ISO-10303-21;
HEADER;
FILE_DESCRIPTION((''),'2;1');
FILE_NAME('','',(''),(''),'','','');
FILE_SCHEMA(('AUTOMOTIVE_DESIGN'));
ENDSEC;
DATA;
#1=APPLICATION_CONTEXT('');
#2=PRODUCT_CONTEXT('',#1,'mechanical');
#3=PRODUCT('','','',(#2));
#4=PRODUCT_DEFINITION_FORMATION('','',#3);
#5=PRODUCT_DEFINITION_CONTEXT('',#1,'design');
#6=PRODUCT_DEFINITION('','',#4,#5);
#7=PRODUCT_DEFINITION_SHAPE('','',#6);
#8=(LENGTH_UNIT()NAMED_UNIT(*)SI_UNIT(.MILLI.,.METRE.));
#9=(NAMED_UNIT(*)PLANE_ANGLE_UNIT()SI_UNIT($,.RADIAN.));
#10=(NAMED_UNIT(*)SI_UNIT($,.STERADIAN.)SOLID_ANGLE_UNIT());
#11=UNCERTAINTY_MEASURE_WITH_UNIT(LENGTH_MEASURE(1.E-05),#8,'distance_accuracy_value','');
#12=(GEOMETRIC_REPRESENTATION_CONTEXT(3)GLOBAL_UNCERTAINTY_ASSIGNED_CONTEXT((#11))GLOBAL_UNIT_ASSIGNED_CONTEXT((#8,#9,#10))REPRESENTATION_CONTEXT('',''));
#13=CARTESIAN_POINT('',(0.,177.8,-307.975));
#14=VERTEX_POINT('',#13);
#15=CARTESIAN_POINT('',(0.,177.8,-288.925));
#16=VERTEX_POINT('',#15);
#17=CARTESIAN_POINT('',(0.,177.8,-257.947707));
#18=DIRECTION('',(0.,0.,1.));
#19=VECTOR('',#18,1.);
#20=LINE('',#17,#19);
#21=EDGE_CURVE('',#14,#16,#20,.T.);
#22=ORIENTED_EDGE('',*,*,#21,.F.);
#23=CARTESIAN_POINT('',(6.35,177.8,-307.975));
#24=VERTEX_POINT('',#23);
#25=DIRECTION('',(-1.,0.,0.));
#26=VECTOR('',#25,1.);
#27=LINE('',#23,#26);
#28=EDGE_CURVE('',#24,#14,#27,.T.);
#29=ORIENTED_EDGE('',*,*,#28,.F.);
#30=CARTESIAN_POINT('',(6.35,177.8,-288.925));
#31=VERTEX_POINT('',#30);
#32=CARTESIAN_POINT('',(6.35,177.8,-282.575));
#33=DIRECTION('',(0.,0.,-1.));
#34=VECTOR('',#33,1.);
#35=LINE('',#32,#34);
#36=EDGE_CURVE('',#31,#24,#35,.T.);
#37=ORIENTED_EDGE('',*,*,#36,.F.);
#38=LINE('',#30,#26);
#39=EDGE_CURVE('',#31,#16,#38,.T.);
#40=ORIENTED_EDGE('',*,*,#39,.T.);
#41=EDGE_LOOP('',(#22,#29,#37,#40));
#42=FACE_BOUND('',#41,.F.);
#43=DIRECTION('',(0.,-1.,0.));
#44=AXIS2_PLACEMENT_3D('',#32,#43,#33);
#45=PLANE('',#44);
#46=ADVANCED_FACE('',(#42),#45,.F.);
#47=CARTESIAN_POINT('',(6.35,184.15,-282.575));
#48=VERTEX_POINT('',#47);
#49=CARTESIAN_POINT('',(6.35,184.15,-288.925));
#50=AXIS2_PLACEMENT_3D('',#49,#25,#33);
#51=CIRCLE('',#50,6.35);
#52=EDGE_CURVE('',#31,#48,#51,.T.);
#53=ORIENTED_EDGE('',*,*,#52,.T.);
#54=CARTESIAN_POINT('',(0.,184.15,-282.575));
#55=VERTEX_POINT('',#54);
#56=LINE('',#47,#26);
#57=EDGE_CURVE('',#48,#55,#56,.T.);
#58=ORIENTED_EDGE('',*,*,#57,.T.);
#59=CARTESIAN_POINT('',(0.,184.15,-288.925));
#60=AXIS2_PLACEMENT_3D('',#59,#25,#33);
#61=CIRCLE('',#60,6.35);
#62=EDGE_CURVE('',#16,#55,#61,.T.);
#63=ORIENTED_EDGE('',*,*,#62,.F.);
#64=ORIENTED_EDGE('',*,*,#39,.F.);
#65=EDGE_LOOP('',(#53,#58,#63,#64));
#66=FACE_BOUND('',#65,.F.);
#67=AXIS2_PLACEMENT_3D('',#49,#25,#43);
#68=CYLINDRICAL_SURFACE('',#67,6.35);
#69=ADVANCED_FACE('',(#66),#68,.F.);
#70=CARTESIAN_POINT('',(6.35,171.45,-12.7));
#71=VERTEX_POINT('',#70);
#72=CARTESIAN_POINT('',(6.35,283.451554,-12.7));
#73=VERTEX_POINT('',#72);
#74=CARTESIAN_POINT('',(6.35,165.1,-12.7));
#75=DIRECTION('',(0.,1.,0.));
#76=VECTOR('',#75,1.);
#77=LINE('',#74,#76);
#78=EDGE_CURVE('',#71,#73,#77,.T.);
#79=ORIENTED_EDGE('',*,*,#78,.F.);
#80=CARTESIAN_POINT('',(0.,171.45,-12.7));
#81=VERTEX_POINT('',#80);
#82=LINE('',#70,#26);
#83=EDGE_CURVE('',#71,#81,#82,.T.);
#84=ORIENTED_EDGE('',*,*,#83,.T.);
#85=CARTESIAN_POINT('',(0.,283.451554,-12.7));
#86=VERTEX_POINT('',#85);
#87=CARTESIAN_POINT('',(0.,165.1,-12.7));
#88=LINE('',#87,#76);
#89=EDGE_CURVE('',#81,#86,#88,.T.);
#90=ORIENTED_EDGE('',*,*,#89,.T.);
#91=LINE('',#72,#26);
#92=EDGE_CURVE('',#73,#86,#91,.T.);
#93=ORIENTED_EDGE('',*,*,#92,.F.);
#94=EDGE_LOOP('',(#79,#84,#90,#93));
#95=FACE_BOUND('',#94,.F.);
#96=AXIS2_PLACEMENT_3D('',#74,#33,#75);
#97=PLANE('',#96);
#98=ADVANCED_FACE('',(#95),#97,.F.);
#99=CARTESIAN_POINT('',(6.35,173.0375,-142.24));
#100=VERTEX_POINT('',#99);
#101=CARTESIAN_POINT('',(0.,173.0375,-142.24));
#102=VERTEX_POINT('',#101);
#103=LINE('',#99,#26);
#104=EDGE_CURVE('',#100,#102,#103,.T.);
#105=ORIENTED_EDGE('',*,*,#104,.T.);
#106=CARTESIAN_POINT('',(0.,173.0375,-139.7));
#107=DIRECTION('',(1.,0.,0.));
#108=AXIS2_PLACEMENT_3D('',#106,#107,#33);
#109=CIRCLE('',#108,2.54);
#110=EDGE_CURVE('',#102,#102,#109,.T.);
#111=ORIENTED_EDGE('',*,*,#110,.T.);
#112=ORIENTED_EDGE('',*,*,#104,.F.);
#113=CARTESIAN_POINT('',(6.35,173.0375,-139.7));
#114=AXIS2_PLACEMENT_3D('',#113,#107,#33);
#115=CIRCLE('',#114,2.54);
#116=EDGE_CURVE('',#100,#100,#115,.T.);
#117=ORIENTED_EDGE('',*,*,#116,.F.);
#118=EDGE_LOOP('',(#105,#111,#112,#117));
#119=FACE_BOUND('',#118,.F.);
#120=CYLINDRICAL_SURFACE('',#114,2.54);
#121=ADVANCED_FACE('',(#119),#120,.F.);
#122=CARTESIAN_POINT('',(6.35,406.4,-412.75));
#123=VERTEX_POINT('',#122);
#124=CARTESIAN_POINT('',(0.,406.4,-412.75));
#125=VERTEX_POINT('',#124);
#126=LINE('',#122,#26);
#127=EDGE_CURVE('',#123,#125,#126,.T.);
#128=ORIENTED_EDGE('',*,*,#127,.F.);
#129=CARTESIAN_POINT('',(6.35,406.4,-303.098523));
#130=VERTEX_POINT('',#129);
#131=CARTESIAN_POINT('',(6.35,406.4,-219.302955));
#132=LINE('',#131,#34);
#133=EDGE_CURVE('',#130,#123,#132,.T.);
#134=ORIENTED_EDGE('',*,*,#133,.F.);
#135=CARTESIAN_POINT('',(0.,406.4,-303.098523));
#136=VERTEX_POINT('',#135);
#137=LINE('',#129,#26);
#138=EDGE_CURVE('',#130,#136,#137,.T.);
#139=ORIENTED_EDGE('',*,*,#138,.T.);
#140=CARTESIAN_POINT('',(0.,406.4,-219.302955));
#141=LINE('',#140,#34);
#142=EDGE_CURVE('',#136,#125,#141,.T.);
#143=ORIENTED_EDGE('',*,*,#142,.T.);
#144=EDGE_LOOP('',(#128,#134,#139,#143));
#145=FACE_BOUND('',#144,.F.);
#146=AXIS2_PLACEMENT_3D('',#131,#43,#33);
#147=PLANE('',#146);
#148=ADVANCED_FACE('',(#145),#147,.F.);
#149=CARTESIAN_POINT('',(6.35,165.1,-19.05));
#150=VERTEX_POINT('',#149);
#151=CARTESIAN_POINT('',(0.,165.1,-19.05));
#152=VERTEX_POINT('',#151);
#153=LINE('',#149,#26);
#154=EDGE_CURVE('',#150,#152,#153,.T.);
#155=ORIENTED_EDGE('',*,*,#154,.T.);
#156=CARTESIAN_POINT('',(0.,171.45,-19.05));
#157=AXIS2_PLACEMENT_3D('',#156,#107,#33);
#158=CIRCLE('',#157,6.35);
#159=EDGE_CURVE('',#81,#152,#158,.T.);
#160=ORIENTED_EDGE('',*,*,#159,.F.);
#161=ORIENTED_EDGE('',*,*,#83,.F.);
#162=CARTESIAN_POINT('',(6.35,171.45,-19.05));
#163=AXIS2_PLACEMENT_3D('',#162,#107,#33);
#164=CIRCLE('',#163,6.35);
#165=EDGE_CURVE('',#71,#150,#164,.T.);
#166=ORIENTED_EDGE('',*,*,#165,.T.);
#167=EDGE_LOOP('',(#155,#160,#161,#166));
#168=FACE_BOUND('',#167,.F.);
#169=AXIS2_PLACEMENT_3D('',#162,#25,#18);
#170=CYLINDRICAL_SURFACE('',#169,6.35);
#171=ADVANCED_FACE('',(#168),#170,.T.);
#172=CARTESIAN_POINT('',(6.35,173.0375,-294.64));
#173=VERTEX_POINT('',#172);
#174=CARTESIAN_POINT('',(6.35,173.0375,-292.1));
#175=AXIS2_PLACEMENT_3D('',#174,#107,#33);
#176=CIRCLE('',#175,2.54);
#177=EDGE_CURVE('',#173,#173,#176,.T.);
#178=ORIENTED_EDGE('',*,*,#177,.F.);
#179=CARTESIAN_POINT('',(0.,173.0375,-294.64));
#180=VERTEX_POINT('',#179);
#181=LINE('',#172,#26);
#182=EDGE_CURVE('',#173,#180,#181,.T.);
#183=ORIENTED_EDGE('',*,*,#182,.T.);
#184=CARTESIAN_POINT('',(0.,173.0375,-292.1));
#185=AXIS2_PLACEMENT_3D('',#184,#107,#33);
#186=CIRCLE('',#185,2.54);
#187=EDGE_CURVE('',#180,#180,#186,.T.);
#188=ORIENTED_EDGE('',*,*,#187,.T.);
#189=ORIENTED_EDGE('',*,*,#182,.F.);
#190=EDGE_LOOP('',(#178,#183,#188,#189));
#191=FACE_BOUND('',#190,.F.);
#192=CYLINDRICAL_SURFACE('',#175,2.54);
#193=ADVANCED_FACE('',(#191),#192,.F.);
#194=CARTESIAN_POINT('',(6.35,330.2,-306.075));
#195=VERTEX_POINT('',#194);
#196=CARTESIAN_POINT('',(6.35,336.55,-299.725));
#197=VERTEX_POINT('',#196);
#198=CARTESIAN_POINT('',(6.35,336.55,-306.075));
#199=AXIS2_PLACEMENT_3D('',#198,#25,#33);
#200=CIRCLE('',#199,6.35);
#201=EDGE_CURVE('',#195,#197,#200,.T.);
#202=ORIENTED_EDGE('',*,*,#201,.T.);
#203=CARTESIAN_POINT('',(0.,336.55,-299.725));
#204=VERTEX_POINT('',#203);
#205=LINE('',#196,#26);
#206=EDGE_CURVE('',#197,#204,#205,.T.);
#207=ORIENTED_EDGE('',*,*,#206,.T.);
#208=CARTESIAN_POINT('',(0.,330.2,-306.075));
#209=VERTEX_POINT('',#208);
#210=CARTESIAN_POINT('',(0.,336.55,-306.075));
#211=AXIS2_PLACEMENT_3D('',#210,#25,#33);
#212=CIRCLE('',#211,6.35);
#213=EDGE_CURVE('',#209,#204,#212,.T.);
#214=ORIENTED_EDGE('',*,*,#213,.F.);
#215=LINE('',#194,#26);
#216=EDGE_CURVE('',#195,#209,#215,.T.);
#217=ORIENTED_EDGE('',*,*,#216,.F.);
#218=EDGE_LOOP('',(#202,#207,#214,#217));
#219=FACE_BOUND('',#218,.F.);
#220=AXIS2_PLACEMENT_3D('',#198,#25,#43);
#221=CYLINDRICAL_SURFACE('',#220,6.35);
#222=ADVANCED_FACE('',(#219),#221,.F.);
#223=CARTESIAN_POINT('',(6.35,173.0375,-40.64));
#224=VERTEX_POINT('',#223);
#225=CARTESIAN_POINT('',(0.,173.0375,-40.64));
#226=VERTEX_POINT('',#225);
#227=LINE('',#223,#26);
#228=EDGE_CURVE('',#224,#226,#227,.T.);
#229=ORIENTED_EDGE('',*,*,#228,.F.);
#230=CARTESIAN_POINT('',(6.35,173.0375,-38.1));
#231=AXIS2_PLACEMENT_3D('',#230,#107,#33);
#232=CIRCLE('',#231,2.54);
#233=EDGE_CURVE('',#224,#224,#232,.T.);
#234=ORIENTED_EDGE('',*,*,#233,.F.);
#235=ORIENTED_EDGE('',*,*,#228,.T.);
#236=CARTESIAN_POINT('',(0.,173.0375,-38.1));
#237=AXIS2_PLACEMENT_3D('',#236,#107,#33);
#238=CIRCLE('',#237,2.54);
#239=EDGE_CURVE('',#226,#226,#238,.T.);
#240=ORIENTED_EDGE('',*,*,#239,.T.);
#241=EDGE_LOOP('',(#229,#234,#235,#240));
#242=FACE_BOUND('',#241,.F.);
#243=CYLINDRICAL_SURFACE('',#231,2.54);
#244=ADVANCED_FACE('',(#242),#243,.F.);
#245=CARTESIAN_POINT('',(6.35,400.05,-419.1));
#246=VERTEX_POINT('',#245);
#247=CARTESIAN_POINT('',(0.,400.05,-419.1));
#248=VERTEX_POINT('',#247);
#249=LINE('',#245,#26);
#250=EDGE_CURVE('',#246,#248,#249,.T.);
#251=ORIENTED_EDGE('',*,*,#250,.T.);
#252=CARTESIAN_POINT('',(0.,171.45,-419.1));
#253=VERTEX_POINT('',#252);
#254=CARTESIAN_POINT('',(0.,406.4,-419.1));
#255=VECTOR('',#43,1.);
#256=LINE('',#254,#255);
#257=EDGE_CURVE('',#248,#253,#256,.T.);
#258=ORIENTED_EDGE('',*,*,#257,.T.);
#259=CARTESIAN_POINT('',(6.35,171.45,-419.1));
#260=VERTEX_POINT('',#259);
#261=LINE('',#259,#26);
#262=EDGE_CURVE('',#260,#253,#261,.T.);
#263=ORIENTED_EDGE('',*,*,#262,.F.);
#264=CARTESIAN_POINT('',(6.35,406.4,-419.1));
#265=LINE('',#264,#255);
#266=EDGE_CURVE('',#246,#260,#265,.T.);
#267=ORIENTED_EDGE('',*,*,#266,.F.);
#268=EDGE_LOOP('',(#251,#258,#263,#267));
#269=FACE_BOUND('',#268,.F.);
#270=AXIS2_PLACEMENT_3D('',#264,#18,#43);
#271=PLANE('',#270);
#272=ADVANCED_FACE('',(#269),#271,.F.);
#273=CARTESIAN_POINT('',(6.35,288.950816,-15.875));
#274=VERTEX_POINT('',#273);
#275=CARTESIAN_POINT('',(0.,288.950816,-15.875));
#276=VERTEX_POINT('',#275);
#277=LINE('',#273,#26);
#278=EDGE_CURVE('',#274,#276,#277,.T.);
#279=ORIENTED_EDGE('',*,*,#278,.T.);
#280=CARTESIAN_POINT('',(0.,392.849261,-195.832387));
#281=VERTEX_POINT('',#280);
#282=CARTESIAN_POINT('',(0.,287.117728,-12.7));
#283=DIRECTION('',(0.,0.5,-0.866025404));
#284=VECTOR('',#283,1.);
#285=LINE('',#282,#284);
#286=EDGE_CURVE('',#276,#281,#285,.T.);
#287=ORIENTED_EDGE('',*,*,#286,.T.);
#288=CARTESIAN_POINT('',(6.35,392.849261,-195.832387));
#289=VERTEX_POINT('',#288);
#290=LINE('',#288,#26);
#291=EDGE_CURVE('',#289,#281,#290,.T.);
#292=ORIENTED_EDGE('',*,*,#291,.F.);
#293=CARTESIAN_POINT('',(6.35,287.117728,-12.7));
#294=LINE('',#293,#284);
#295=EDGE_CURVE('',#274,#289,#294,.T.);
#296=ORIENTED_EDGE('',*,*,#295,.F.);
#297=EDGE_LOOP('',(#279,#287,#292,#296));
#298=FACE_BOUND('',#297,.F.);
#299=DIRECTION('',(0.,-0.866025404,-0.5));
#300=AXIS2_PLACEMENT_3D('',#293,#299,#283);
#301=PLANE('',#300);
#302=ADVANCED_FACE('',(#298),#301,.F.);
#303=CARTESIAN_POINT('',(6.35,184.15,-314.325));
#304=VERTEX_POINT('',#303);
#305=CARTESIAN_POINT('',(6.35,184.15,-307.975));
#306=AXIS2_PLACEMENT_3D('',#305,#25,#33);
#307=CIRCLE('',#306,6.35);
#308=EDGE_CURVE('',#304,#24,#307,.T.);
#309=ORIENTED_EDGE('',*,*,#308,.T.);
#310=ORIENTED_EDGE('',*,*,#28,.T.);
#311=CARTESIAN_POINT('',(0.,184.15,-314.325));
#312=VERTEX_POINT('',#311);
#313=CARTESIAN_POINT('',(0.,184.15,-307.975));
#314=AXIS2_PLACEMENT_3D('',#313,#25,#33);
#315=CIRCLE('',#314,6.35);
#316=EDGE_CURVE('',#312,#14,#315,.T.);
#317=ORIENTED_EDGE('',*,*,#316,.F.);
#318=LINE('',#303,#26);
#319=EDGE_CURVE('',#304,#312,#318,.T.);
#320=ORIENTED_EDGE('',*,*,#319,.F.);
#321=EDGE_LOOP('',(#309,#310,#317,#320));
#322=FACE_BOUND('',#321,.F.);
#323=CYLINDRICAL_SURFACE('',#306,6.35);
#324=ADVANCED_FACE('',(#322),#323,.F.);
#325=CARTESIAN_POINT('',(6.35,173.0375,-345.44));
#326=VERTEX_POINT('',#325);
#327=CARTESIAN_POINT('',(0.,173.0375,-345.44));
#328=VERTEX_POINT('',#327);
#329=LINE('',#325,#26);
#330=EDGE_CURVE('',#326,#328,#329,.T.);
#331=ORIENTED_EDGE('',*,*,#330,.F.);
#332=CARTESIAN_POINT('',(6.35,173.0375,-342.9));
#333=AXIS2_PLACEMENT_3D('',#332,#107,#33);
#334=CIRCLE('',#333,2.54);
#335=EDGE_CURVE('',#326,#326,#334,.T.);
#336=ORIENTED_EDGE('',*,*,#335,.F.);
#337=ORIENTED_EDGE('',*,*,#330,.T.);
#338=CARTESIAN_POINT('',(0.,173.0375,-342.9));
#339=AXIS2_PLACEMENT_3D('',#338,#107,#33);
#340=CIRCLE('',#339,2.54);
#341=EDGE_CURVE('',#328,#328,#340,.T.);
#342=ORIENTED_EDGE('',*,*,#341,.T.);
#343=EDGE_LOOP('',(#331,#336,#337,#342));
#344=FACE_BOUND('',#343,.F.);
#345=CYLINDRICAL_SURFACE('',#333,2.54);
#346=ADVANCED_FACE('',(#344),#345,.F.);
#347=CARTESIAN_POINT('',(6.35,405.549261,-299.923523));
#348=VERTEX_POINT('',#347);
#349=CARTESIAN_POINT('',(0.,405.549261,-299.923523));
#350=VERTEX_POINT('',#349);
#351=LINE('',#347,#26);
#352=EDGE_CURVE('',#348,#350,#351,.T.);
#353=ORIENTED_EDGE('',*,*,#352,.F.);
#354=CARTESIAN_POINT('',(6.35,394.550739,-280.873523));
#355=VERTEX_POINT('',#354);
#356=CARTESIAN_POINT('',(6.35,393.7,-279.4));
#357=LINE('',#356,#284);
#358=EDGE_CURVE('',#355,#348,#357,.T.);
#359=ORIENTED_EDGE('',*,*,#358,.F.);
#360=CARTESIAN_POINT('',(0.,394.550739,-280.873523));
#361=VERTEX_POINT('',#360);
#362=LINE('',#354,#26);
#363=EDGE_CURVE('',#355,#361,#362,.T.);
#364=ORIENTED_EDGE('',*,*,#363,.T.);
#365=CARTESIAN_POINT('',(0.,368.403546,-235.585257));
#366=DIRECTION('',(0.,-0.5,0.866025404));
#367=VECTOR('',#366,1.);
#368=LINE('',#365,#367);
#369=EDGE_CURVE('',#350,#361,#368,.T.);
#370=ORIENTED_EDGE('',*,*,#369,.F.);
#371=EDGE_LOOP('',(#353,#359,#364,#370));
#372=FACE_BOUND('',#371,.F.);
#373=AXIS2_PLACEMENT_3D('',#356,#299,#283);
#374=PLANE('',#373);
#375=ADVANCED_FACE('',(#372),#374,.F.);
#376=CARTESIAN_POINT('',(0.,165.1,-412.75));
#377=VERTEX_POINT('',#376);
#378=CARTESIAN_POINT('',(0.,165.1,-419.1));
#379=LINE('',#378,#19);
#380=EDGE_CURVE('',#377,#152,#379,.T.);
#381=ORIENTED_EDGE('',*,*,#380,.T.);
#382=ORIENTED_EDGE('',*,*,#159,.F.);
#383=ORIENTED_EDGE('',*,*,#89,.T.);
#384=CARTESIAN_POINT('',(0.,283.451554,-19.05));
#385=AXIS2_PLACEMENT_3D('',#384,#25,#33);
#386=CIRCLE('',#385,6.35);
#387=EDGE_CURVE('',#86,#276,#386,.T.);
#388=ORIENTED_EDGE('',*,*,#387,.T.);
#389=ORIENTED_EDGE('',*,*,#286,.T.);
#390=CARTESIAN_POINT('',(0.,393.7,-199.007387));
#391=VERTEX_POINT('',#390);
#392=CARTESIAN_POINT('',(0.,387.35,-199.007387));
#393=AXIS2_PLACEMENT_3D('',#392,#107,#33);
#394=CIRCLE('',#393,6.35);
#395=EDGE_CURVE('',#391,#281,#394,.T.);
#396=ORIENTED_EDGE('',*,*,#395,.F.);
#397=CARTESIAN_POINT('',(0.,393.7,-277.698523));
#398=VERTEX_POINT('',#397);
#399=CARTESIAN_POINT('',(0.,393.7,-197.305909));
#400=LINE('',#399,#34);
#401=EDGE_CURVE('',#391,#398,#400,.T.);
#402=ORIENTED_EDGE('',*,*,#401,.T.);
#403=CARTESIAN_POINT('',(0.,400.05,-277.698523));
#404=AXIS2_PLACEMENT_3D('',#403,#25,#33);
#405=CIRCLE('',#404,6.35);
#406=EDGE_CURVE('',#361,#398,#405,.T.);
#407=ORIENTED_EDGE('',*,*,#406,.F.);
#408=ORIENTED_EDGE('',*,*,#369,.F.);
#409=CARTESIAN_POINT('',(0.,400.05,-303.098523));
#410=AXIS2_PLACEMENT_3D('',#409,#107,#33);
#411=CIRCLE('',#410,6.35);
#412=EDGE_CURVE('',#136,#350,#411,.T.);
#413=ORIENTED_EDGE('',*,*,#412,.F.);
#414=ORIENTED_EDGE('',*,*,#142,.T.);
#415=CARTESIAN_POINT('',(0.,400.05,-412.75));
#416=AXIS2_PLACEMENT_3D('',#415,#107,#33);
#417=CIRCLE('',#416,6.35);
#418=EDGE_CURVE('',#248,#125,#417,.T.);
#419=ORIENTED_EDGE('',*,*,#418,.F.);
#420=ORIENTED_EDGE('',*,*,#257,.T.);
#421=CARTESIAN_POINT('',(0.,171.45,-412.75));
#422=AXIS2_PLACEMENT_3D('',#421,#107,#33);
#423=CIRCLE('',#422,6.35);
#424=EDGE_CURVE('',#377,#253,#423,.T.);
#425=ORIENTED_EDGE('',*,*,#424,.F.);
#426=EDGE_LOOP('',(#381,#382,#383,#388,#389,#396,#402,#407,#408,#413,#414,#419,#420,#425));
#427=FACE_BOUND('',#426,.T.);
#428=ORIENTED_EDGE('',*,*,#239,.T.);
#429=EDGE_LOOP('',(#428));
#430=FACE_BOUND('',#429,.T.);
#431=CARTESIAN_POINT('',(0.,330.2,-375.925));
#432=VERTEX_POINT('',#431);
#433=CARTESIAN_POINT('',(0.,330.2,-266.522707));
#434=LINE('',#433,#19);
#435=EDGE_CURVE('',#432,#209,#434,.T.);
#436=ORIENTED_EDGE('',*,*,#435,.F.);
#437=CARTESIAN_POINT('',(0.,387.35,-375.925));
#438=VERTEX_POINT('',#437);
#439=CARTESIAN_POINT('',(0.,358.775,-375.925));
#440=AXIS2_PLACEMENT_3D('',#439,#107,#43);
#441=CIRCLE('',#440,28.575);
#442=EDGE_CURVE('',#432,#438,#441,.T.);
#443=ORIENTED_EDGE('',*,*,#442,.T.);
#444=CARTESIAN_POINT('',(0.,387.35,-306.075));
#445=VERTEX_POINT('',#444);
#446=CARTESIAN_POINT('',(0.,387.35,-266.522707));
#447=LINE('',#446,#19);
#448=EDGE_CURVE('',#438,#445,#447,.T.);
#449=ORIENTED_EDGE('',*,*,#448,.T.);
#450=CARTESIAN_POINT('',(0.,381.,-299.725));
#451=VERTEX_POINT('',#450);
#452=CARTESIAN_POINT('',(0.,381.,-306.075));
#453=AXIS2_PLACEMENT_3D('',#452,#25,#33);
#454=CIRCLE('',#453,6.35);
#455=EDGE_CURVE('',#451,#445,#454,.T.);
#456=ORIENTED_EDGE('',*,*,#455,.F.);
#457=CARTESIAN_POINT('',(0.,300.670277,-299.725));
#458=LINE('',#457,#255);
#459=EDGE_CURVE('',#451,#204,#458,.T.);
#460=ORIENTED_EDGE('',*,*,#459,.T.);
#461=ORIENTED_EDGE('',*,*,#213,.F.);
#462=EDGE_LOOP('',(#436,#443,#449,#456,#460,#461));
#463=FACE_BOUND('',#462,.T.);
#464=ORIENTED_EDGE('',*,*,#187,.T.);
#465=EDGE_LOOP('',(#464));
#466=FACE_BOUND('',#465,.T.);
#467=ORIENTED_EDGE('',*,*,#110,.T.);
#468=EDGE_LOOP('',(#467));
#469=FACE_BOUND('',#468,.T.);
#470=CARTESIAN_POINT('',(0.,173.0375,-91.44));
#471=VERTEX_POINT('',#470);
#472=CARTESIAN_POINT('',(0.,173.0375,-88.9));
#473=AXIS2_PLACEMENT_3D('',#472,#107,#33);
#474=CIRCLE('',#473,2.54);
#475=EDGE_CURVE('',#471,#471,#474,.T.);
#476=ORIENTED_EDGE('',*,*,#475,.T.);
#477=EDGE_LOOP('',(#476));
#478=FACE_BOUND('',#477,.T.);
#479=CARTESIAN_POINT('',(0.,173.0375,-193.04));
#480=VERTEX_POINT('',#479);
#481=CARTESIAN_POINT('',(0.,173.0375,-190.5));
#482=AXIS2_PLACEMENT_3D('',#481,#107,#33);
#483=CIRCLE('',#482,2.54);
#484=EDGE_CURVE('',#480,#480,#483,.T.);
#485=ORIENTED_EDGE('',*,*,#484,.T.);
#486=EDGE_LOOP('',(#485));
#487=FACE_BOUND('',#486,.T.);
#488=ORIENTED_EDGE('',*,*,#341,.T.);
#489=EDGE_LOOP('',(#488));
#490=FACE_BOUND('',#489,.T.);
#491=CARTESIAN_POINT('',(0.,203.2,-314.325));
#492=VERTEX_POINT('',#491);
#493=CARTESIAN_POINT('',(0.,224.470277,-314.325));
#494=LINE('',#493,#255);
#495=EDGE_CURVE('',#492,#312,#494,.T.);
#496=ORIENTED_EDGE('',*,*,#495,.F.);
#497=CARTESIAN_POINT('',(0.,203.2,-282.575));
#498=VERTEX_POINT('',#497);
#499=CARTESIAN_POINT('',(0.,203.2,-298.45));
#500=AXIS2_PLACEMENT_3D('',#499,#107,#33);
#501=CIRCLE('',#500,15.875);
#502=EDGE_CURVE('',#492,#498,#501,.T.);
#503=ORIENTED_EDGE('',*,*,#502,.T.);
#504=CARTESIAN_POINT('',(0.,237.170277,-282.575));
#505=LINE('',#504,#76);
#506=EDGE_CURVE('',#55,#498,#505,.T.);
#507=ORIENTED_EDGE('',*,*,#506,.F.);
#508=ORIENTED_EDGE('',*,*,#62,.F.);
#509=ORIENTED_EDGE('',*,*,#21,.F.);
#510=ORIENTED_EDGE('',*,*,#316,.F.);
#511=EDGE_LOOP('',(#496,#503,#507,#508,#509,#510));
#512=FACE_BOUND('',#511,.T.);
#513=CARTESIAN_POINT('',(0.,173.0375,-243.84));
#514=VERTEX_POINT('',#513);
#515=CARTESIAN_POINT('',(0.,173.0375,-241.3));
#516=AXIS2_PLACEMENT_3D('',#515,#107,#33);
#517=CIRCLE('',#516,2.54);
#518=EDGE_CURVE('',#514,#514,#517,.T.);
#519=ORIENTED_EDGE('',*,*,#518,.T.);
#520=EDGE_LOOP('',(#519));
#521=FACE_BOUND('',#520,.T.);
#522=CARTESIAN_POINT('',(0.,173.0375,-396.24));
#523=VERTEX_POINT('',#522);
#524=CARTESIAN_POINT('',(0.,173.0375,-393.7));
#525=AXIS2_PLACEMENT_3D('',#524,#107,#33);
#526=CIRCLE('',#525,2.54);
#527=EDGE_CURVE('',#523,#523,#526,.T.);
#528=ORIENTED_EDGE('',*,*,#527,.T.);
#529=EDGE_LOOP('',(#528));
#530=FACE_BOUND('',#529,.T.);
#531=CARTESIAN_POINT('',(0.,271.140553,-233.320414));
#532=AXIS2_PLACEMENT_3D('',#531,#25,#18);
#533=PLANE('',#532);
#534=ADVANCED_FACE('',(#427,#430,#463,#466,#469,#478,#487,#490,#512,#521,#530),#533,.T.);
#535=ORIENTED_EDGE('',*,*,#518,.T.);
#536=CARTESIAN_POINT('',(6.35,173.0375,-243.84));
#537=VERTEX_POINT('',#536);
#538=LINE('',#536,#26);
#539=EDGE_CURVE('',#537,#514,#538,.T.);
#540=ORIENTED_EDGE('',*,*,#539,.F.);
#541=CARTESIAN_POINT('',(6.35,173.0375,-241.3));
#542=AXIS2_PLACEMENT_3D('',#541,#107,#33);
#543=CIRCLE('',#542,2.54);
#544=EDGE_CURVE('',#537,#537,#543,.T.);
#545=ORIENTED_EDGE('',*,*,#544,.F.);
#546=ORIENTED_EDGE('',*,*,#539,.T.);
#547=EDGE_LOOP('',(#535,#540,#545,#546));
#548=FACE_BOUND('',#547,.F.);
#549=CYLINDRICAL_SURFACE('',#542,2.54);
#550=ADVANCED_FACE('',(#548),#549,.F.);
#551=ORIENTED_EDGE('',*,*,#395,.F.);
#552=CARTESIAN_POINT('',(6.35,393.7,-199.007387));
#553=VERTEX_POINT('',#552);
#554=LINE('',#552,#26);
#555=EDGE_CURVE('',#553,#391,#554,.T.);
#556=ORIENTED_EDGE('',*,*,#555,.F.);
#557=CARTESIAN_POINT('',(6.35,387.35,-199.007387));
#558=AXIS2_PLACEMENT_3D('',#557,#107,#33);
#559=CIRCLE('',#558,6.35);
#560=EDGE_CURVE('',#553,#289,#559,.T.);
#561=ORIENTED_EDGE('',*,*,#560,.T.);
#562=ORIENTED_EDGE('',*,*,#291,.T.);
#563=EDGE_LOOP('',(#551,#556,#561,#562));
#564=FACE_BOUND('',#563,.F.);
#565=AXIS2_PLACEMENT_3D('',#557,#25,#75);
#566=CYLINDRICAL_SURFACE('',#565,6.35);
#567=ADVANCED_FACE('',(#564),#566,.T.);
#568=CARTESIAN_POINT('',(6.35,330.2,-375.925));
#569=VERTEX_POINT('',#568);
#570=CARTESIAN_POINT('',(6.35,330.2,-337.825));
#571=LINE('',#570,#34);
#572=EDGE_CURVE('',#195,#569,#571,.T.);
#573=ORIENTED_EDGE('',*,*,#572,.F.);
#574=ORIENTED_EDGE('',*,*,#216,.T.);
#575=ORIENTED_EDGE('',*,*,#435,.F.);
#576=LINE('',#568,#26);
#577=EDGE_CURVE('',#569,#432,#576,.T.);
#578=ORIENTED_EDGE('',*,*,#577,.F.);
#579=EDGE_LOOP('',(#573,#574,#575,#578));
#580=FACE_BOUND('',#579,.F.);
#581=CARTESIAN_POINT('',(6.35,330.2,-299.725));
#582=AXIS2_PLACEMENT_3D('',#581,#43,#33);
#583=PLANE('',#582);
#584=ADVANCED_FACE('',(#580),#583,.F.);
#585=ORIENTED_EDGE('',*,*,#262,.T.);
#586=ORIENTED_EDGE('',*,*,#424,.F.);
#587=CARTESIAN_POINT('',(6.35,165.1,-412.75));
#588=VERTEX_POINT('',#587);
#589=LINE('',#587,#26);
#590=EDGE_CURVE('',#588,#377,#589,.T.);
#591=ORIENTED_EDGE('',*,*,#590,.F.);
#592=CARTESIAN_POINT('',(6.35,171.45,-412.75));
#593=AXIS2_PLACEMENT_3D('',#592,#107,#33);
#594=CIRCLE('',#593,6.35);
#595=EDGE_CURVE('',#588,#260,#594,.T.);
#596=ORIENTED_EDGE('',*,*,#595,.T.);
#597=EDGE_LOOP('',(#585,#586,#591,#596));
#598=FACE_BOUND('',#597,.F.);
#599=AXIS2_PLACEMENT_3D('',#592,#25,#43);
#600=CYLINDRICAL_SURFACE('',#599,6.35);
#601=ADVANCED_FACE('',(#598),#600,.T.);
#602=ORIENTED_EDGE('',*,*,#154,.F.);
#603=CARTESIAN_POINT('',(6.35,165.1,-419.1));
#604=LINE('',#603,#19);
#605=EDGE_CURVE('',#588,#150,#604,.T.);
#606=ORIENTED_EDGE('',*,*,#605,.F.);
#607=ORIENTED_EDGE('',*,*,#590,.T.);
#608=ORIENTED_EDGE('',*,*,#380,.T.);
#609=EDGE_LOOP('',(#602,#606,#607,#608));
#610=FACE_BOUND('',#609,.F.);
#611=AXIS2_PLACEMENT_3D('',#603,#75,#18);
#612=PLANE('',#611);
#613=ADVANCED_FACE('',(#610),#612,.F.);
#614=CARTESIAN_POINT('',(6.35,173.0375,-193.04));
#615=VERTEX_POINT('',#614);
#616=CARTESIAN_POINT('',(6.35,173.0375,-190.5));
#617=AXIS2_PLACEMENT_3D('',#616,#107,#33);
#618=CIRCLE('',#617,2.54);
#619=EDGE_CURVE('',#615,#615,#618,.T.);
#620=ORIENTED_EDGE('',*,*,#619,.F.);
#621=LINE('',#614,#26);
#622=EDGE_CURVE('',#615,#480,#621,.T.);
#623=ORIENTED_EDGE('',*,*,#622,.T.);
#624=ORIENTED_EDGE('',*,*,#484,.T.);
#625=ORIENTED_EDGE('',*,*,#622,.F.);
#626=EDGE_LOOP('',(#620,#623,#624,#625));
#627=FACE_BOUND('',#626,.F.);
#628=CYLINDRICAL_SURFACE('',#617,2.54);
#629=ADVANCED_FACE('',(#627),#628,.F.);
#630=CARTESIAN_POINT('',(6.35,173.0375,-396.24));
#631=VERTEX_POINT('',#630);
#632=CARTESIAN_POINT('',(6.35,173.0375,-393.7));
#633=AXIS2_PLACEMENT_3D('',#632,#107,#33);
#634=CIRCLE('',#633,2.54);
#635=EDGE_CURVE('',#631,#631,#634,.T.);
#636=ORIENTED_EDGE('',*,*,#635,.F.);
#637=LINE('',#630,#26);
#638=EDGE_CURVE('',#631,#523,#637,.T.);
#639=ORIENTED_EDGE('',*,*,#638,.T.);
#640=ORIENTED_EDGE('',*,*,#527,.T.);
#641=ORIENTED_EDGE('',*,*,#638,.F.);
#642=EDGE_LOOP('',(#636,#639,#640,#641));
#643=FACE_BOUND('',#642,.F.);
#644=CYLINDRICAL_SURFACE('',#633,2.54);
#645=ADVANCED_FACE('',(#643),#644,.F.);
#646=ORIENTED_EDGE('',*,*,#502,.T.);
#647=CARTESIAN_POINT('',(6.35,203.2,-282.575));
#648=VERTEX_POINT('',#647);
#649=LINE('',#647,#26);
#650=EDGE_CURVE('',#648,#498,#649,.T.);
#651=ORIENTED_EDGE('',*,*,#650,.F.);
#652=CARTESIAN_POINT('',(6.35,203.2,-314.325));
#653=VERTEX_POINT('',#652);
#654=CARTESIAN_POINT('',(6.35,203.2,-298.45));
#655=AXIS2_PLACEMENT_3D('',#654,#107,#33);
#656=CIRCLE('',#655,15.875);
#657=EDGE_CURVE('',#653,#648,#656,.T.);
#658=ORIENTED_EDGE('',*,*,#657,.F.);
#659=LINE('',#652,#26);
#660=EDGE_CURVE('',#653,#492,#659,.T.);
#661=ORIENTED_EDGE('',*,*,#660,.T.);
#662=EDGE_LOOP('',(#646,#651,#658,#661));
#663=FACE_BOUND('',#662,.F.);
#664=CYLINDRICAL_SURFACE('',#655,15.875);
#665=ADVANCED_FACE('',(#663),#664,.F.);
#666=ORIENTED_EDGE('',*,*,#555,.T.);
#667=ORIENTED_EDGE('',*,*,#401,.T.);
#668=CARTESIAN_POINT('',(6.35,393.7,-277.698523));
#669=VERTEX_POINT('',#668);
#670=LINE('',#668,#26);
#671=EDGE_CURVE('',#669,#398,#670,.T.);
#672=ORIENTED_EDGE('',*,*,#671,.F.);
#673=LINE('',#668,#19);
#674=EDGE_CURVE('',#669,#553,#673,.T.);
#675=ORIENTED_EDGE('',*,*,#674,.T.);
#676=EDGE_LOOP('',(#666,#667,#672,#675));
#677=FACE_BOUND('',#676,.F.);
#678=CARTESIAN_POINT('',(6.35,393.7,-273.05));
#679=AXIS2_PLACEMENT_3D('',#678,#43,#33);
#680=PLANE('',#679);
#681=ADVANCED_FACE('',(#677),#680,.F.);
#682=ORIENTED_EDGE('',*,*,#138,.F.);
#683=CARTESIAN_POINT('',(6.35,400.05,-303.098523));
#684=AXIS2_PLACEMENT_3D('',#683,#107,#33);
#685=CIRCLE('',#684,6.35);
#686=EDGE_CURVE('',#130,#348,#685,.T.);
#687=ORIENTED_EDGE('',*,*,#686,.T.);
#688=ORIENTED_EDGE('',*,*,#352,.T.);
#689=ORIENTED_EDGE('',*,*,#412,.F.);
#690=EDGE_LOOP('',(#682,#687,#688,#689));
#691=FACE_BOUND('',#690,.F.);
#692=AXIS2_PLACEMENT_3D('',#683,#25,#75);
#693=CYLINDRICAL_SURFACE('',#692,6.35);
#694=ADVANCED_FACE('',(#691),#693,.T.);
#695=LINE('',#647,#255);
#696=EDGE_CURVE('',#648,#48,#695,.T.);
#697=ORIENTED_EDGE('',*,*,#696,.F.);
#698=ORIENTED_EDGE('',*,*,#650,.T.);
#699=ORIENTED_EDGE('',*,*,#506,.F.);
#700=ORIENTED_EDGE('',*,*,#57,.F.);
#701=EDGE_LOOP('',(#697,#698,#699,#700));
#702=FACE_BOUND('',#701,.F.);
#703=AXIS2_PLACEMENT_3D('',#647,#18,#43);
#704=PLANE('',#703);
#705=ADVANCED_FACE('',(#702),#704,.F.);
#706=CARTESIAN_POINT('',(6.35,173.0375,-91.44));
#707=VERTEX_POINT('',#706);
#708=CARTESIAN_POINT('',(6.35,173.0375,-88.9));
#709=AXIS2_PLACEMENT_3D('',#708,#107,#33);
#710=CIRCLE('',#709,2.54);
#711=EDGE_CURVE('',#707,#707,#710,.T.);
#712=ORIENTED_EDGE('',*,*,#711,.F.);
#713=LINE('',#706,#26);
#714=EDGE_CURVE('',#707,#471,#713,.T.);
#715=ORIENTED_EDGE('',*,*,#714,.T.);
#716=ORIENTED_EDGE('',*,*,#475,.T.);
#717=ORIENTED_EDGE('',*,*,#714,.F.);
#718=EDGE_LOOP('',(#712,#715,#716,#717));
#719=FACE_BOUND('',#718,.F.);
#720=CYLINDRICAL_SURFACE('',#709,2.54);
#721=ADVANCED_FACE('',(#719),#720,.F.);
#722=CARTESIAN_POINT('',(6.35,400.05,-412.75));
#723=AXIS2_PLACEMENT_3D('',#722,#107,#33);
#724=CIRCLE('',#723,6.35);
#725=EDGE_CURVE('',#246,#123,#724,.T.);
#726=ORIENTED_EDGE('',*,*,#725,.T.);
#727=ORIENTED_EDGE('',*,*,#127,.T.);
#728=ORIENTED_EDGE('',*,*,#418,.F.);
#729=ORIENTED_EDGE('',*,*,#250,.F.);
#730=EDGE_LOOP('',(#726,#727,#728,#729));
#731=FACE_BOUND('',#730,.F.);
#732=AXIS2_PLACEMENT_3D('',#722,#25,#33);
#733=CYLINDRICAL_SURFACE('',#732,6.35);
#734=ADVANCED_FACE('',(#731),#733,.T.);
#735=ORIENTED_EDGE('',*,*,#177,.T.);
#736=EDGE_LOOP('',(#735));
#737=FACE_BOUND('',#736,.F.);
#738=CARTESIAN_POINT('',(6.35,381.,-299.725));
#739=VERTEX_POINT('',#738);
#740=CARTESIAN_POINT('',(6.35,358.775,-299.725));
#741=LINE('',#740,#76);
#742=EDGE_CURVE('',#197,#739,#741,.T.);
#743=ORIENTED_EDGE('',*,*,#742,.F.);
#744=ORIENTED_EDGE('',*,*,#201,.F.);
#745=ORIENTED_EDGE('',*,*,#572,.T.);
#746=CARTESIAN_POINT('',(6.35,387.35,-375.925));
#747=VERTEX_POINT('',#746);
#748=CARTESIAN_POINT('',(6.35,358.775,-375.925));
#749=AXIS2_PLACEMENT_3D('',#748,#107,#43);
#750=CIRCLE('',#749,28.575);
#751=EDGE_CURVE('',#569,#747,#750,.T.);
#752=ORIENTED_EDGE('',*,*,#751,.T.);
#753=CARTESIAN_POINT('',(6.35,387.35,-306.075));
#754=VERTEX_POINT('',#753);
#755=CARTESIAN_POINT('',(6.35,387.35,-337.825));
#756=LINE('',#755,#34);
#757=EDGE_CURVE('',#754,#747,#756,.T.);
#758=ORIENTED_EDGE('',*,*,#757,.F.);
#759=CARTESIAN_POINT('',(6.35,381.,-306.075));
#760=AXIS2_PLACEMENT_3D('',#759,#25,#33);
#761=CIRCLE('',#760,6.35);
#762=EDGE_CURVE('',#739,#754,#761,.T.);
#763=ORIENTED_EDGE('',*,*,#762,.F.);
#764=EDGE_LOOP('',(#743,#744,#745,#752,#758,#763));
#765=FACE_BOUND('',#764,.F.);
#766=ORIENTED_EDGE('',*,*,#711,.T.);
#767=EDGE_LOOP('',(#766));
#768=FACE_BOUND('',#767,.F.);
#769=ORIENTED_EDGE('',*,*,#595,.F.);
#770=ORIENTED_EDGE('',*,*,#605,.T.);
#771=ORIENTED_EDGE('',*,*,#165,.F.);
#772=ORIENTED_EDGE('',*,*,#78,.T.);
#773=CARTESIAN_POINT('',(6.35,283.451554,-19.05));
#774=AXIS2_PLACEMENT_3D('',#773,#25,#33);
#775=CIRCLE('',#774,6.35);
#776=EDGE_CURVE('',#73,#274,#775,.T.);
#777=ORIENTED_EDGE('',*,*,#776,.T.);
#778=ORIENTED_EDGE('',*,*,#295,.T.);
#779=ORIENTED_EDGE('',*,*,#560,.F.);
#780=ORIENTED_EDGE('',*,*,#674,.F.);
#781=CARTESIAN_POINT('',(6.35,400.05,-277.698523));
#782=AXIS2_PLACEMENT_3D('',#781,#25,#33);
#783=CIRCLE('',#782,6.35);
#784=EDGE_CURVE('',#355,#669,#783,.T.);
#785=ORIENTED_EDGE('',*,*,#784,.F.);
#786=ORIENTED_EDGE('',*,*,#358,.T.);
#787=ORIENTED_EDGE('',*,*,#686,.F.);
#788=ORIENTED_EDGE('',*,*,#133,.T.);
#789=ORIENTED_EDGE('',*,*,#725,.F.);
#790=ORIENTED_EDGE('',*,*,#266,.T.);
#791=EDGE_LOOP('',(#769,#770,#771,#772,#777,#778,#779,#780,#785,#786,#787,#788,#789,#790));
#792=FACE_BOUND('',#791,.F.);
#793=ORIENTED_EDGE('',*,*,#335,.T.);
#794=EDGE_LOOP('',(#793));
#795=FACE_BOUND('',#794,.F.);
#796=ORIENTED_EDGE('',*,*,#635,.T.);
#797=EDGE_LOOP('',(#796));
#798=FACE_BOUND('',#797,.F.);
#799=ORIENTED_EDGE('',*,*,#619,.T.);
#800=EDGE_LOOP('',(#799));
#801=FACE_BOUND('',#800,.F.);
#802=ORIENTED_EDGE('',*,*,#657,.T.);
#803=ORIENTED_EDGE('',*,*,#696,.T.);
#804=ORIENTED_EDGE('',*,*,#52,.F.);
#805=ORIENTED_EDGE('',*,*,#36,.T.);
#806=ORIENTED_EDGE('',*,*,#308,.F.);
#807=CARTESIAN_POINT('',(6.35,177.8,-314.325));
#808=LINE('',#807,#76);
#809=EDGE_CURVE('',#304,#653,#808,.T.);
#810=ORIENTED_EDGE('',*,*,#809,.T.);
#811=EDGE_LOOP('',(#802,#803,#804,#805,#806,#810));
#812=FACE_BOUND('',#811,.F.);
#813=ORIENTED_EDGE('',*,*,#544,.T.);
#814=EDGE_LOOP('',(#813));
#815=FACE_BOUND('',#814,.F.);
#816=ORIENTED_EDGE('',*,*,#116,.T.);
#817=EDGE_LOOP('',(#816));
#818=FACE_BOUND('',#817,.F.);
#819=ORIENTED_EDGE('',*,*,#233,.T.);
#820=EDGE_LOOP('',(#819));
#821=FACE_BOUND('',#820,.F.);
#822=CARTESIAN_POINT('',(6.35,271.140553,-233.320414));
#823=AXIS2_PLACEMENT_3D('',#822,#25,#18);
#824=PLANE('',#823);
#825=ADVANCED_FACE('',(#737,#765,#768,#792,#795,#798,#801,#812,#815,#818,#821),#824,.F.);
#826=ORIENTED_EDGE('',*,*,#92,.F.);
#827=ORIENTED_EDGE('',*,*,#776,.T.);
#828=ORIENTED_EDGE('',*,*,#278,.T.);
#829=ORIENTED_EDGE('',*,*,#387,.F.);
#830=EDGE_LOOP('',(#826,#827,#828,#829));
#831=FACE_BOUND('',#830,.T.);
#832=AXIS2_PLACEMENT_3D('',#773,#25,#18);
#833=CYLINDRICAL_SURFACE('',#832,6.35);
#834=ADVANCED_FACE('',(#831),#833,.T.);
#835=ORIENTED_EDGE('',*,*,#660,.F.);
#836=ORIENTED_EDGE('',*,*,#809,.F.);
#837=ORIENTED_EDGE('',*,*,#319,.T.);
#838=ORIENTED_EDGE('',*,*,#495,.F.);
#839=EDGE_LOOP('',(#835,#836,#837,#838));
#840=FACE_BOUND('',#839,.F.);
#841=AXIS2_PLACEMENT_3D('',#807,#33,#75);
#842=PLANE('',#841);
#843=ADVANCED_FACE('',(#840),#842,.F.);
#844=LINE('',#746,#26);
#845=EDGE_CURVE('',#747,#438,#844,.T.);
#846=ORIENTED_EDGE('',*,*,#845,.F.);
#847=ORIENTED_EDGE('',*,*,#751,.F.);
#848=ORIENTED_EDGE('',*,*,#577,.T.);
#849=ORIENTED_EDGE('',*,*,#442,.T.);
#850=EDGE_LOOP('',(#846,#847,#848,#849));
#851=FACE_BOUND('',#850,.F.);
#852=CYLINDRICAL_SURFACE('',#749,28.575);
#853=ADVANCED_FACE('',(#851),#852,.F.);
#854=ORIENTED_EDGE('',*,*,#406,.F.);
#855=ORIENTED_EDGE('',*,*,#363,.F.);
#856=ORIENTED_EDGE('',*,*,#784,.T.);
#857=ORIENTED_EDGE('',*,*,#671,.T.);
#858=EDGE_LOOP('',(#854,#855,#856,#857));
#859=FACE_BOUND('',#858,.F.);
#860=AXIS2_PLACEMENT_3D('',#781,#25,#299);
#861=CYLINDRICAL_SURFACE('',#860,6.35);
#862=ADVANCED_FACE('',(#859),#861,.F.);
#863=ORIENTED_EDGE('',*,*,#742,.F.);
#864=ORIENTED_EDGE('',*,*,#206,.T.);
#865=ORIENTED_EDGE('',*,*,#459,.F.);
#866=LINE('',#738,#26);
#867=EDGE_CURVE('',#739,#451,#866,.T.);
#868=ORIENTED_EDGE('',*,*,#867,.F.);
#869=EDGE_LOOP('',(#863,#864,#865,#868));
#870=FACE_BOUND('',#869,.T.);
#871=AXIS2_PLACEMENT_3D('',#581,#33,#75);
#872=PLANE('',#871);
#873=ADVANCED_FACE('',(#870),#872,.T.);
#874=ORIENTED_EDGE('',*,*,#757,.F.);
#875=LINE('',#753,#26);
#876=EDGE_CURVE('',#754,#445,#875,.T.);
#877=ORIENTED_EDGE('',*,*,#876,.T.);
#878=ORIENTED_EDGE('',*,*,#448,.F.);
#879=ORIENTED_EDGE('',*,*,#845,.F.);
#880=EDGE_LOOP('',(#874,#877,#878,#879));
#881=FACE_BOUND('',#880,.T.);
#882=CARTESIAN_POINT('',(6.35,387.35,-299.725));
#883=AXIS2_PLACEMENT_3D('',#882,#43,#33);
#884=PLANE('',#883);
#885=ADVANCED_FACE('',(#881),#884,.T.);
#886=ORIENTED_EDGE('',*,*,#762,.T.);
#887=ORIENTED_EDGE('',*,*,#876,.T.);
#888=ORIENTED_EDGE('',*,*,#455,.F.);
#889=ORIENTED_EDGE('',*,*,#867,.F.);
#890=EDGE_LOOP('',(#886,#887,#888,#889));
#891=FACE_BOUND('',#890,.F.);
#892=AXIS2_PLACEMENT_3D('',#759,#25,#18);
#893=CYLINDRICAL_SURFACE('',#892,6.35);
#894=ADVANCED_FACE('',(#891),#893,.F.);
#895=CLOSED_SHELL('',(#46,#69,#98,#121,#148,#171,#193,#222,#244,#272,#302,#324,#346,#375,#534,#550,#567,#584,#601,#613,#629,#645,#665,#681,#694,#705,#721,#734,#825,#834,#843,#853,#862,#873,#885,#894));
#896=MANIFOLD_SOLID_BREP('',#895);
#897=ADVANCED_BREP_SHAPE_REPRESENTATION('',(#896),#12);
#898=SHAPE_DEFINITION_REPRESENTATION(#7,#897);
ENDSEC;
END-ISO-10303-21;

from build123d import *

# Parameters (mm, degrees)
BOSS_EXTRUDE1_DEPTH = 6.35
SKETCH3_R           = 3.96875
CUT_EXTRUDE1_DEPTH  = 7.35
SKETCH5_W           = 6.35
SKETCH5_H           = 12.7
CUT_EXTRUDE3_DEPTH  = 7.35
LPATTERN1_COUNT     = 16
LPATTERN1_PITCH     = 25.4
SKETCH6_W           = 6.35
SKETCH6_H           = 12.7
CUT_EXTRUDE4_DEPTH  = 7.35
LPATTERN2_COUNT     = 11
LPATTERN2_PITCH     = 25.4
SKETCH7_W           = 6.35
SKETCH7_H           = 12.7
SKETCH7_W_2         = 12.7
SKETCH7_H_2         = 6.35
CUT_EXTRUDE5_DEPTH  = 7.35
CUT_EXTRUDE6_DEPTH  = 7.35
LPATTERN3_COUNT     = 10
LPATTERN3_PITCH     = 25.4
SKETCH9_W           = 12.7
SKETCH9_H           = 6.35
CUT_EXTRUDE7_DEPTH  = 7.35
LPATTERN4_COUNT     = 8
LPATTERN4_PITCH     = 25.4
SKETCH10_R          = 3.175
CUT_EXTRUDE8_DEPTH  = 7.35
SKETCH11_R          = 3.96875
CUT_EXTRUDE9_DEPTH  = 7.35
SKETCH12_W          = 6.35
SKETCH12_H          = 12.7
CUT_EXTRUDE13_DEPTH = 7.35
CUT_EXTRUDE15_DEPTH = 7.35
CUT_EXTRUDE16_DEPTH = 7.35
SKETCH17_W          = 12.7
SKETCH17_H          = 6.35
CUT_EXTRUDE17_DEPTH = 7.35
LPATTERN5_COUNT     = 17
LPATTERN5_PITCH     = 25.4
LPATTERN6_COUNT     = 2
LPATTERN6_PITCH     = 120.65
SKETCH18_W          = 12.7
SKETCH18_H          = 6.35
CUT_EXTRUDE18_DEPTH = 7.35
LPATTERN7_COUNT     = 5
LPATTERN7_PITCH     = 25.4
CUT_EXTRUDE19_DEPTH = 7.35
SKETCH20_W          = 101.6
SKETCH20_H          = 57.15
CUT_EXTRUDE20_DEPTH = 7.35
CUT_EXTRUDE21_DEPTH = 7.35
CUT_EXTRUDE22_DEPTH = 7.35
BOSS_EXTRUDE4_DEPTH = 6.35
BOSS_EXTRUDE5_DEPTH = 6.35
CUT_EXTRUDE23_DEPTH = 7.35
CUT_EXTRUDE24_DEPTH = 7.35
FILLET1_R           = 6.35
SKETCH30_R          = 2.54
CUT_EXTRUDE25_DEPTH = 7.35
SKETCH31_W          = 76.2
SKETCH31_H          = 57.15
CUT_EXTRUDE26_DEPTH = 7.35
CUT_EXTRUDE27_DEPTH = 7.35
SKETCH33_W          = 110.352574347
SKETCH33_H          = 42.11476807
CUT_EXTRUDE28_DEPTH = 7.35
FILLET2_R           = 6.35


with BuildPart() as part:
    # Sketch2 → Boss-Extrude1 (new body)
    with BuildSketch(Plane(origin=(0, 0, 0), x_dir=(0, 0, -1), z_dir=(1, 0, 0))):
        Polygon((0, 0), (0, 294.450076882), (215.9, 419.1), (431.8, 419.1), (431.8, 0), (241.3, 0), (241.3, 38.1), (127, 38.1), (127, 0), align=None)
    extrude(amount=BOSS_EXTRUDE1_DEPTH)

    # Sketch3 → Cut-Extrude1 (cut, through all)
    with BuildSketch(Plane(origin=(6.35, 0, 0), x_dir=(0, 0, -1), z_dir=(1, 0, 0))):
        with Locations((63.5, 38.1)):
            Circle(SKETCH3_R)
        with Locations((368.3, 38.1)):
            Circle(SKETCH3_R)
    extrude(amount=-CUT_EXTRUDE1_DEPTH, mode=Mode.SUBTRACT)

    # Sketch5 → Cut-Extrude3 (cut, through all)
    with BuildSketch(Plane(origin=(6.35, 0, 0), x_dir=(0, 0, -1), z_dir=(1, 0, 0))):
        with Locations((428.625, 19.05)):
            Rectangle(SKETCH5_W, SKETCH5_H)
    cut_extrude3 = extrude(amount=-CUT_EXTRUDE3_DEPTH, mode=Mode.SUBTRACT)

    # LPattern1: Cut-Extrude3 ×16
    with Locations(*[(0, i * LPATTERN1_PITCH, 0) for i in range(1, LPATTERN1_COUNT)]):
        add(cut_extrude3, mode=Mode.SUBTRACT)

    # Sketch6 → Cut-Extrude4 (cut, through all)
    with BuildSketch(Plane(origin=(6.35, 0, 0), x_dir=(0, 0, -1), z_dir=(1, 0, 0))):
        with Locations((3.175, 19.05)):
            Rectangle(SKETCH6_W, SKETCH6_H)
    cut_extrude4 = extrude(amount=-CUT_EXTRUDE4_DEPTH, mode=Mode.SUBTRACT)

    # LPattern2: Cut-Extrude4 ×11
    with Locations(*[(0, i * LPATTERN2_PITCH, 0) for i in range(1, LPATTERN2_COUNT)]):
        add(cut_extrude4, mode=Mode.SUBTRACT)

    # Sketch7 → Cut-Extrude5 (cut, through all)
    with BuildSketch(Plane(origin=(6.35, 0, 0), x_dir=(0, 0, -1), z_dir=(1, 0, 0))):
        with Locations((123.825, 19.05)):
            Rectangle(SKETCH7_W, SKETCH7_H)
        with Locations((133.35, 41.275)):
            Rectangle(SKETCH7_W_2, SKETCH7_H_2)
        with Locations((158.75, 41.275)):
            Rectangle(SKETCH7_W_2, SKETCH7_H_2)
        with Locations((184.15, 41.275)):
            Rectangle(SKETCH7_W_2, SKETCH7_H_2)
        with Locations((244.475, 19.05)):
            Rectangle(SKETCH7_W, SKETCH7_H)
        with Locations((209.55, 41.275)):
            Rectangle(SKETCH7_W_2, SKETCH7_H_2)
        with Locations((234.95, 41.275)):
            Rectangle(SKETCH7_W_2, SKETCH7_H_2)
    extrude(amount=-CUT_EXTRUDE5_DEPTH, mode=Mode.SUBTRACT)

    # Sketch8 → Cut-Extrude6 (cut, through all)
    with BuildSketch(Plane(origin=(6.35, 0, 0), x_dir=(0, 0, -1), z_dir=(1, 0, 0))):
        Polygon((201.93507044, 411.037344159), (212.933593068, 417.387344159), (216.108593068, 411.888082845), (205.11007044, 405.538082845), align=None)
    cut_extrude6 = extrude(amount=-CUT_EXTRUDE6_DEPTH, mode=Mode.SUBTRACT)

    # LPattern3: Cut-Extrude6 ×10
    with Locations(*[Vector(0, -0.5, 0.866025404) * (i * LPATTERN3_PITCH) for i in range(1, LPATTERN3_COUNT)]):
        add(cut_extrude6, mode=Mode.SUBTRACT)

    # Sketch9 → Cut-Extrude7 (cut, through all)
    with BuildSketch(Plane(origin=(6.35, 0, 0), x_dir=(0, 0, -1), z_dir=(1, 0, 0))):
        with Locations((412.75, 415.925)):
            Rectangle(SKETCH9_W, SKETCH9_H)
    cut_extrude7 = extrude(amount=-CUT_EXTRUDE7_DEPTH, mode=Mode.SUBTRACT)

    # LPattern4: Cut-Extrude7 ×8
    with Locations(*[(0, 0, i * LPATTERN4_PITCH) for i in range(1, LPATTERN4_COUNT)]):
        add(cut_extrude7, mode=Mode.SUBTRACT)

    # Sketch10 → Cut-Extrude8 (cut, through all)
    with BuildSketch(Plane(origin=(6.35, 0, 0), x_dir=(0, 0, -1), z_dir=(1, 0, 0))):
        with Locations((222.25, 273.05)):
            Circle(SKETCH10_R)
        with Locations((222.25, 57.15)):
            Circle(SKETCH10_R)
        with Locations((146.05, 57.15)):
            Circle(SKETCH10_R)
        with Locations((146.05, 273.05)):
            Circle(SKETCH10_R)
    extrude(amount=-CUT_EXTRUDE8_DEPTH, mode=Mode.SUBTRACT)

    # Sketch11 → Cut-Extrude9 (cut, through all)
    with BuildSketch(Plane(origin=(6.35, 0, 0), x_dir=(0, 0, -1), z_dir=(1, 0, 0))):
        with Locations((38.1, 260.35)):
            Circle(SKETCH11_R)
        with Locations((266.7, 260.35)):
            Circle(SKETCH11_R)
    extrude(amount=-CUT_EXTRUDE9_DEPTH, mode=Mode.SUBTRACT)

    # Sketch12 → Cut-Extrude13 (cut, through all)
    with BuildSketch(Plane(origin=(6.35, 0, 0), x_dir=(0, 0, -1), z_dir=(1, 0, 0))):
        with Locations((123.825, 44.45)):
            Rectangle(SKETCH12_W, SKETCH12_H)
        with Locations((123.825, 69.85)):
            Rectangle(SKETCH12_W, SKETCH12_H)
        with Locations((123.825, 95.25)):
            Rectangle(SKETCH12_W, SKETCH12_H)
        with Locations((123.825, 120.65)):
            Rectangle(SKETCH12_W, SKETCH12_H)
    cut_extrude13 = extrude(amount=-CUT_EXTRUDE13_DEPTH, mode=Mode.SUBTRACT)

    # Sketch14 → Cut-Extrude15 (cut, through all)
    with BuildSketch(Plane(origin=(6.35, 0, 0), x_dir=(0, 0, -1), z_dir=(1, 0, 0))):
        Polygon((36.957231019, 315.787344159), (47.955753647, 322.137344159), (51.130753647, 316.638082845), (40.132231019, 310.288082845), align=None)
        Polygon((80.951321531, 341.187344159), (91.949844159, 347.537344159), (95.124844159, 342.038082845), (84.126321531, 335.688082845), align=None)
    extrude(amount=-CUT_EXTRUDE15_DEPTH, mode=Mode.SUBTRACT)

    # Sketch15 → Cut-Extrude16 (cut, through all)
    with BuildSketch(Plane(origin=(6.35, 0, 0), x_dir=(0, 0, -1), z_dir=(1, 0, 0))):
        with BuildLine():
            Line((62.129276275, 322.988082845), (31.558579521, 305.338082845))
            ThreePointArc((31.558579521, 305.338082845), (51.535904978, 302.314952438), (62.501260575, 319.285333297))
            ThreePointArc((62.501260575, 319.285333297), (62.408031035, 321.146027155), (62.129276275, 322.988082845))
        make_face()
        with BuildLine():
            Line((103.698495657, 346.988082845), (73.127798903, 329.338082845))
            ThreePointArc((73.127798903, 329.338082845), (93.10512436, 326.314952438), (104.070479957, 343.285333297))
            ThreePointArc((104.070479957, 343.285333297), (103.977250417, 345.146027155), (103.698495657, 346.988082845))
        make_face()
    extrude(amount=-CUT_EXTRUDE16_DEPTH, mode=Mode.SUBTRACT)

    # Sketch17 → Cut-Extrude17 (cut, through all)
    with BuildSketch(Plane(origin=(6.35, 0, 0), x_dir=(0, 0, -1), z_dir=(1, 0, 0))):
        with Locations((25.4, 142.875)):
            Rectangle(SKETCH17_W, SKETCH17_H)
    cut_extrude17 = extrude(amount=-CUT_EXTRUDE17_DEPTH, mode=Mode.SUBTRACT)

    # LPattern5: Cut-Extrude17 ×17
    with Locations(*[(0, 0, -i * LPATTERN5_PITCH) for i in range(1, LPATTERN5_COUNT)]):
        add(cut_extrude17, mode=Mode.SUBTRACT)

    # LPattern6: Cut-Extrude13 ×2
    with Locations(*[(0, 0, -i * LPATTERN6_PITCH) for i in range(1, LPATTERN6_COUNT)]):
        add(cut_extrude13, mode=Mode.SUBTRACT)

    # Sketch18 → Cut-Extrude18 (cut, through all)
    with BuildSketch(Plane(origin=(6.35, 0, 0), x_dir=(0, 0, -1), z_dir=(1, 0, 0))):
        with Locations((133.35, 117.475)):
            Rectangle(SKETCH18_W, SKETCH18_H)
    cut_extrude18 = extrude(amount=-CUT_EXTRUDE18_DEPTH, mode=Mode.SUBTRACT)

    # LPattern7: Cut-Extrude18 ×5
    with Locations(*[(0, 0, -i * LPATTERN7_PITCH) for i in range(1, LPATTERN7_COUNT)]):
        add(cut_extrude18, mode=Mode.SUBTRACT)

    # Sketch19 → Cut-Extrude19 (cut, through all)
    with BuildSketch(Plane(origin=(6.35, 0, 0), x_dir=(0, 0, -1), z_dir=(1, 0, 0))):
        Polygon((25.4, 279.785380045), (222.705909488, 393.7), (406.4, 393.7), (406.4, 165.1), (25.4, 165.1), align=None)
    extrude(amount=-CUT_EXTRUDE19_DEPTH, mode=Mode.SUBTRACT)

    # Sketch20 → Cut-Extrude20 (cut, through all)
    with BuildSketch(Plane(origin=(6.35, 0, 0), x_dir=(0, 0, -1), z_dir=(1, 0, 0))):
        with Locations((184.15, 79.375)):
            Rectangle(SKETCH20_W, SKETCH20_H)
    extrude(amount=-CUT_EXTRUDE20_DEPTH, mode=Mode.SUBTRACT)

    # Sketch21 → Cut-Extrude21 (cut, through all)
    with BuildSketch(Plane(origin=(6.35, 0, 0), x_dir=(0, 0, -1), z_dir=(1, 0, 0))):
        Polygon((266.7, 25.4), (308.202954744, 25.4), (406.4, 82.094090512), (406.4, 133.35), (266.7, 133.35), align=None)
        Polygon((25.4, 133.35), (25.4, 82.094090512), (101.6, 38.1), (101.6, 133.35), align=None)
        Polygon((25.4, 38.1), (25.4, 25.4), (47.397045256, 25.4), align=None)
    extrude(amount=-CUT_EXTRUDE21_DEPTH, mode=Mode.SUBTRACT)

    # Sketch22 → Cut-Extrude22 (cut, through all)
    with BuildSketch(Plane(origin=(6.35, 0, 0), x_dir=(0, 0, -1), z_dir=(1, 0, 0))):
        Polygon((384.402954744, 25.4), (406.4, 38.1), (406.4, 25.4), align=None)
    extrude(amount=-CUT_EXTRUDE22_DEPTH, mode=Mode.SUBTRACT)

    # Sketch26 → Boss-Extrude4 (add, through all)
    with BuildSketch(Plane(origin=(6.35, 0, 0), x_dir=(0, 0, -1), z_dir=(1, 0, 0))):
        Polygon((266.7, 133.35), (266.7, 126.280871047), (278.944090512, 133.35), align=None)
        Polygon((89.355909488, 133.35), (101.6, 126.280871047), (101.6, 133.35), align=None)
        Polygon((266.7, 32.469128953), (278.944090512, 25.4), (266.7, 25.4), align=None)
        Polygon((133.35, 107.95), (133.35, 100.880871047), (145.594090512, 107.95), align=None)
        Polygon((234.95, 107.95), (222.705909488, 107.95), (234.95, 100.880871047), align=None)
        Polygon((133.35, 50.8), (145.594090512, 50.8), (133.35, 57.869128953), align=None)
        Polygon((234.95, 50.8), (222.705909488, 50.8), (234.95, 57.869128953), align=None)
    extrude(amount=-BOSS_EXTRUDE4_DEPTH)


with BuildPart() as body_2:
    # Sketch27 → Boss-Extrude5 (new body)
    with BuildSketch(Plane(origin=(6.35, 0, 0), x_dir=(0, 0, -1), z_dir=(1, 0, 0))):
        Polygon((12.7, 165.1), (12.7, 287.117728463), (219.302954744, 406.4), (419.1, 406.4), (419.1, 165.1), align=None)
    extrude(amount=-BOSS_EXTRUDE5_DEPTH)

    # Sketch28 → Cut-Extrude23 (cut, through all)
    with BuildSketch(Plane(origin=(6.35, 0, 0), x_dir=(0, 0, -1), z_dir=(1, 0, 0))):
        Polygon((251.052954744, 406.4), (273.05, 393.7), (279.4, 393.7), (301.397045256, 406.4), align=None)
    extrude(amount=-CUT_EXTRUDE23_DEPTH, mode=Mode.SUBTRACT)

    # Sketch29 → Cut-Extrude24 (cut, through all)
    with BuildSketch(Plane(origin=(6.35, 0, 0), x_dir=(0, 0, -1), z_dir=(1, 0, 0))):
        with BuildLine():
            Line((282.575, 203.2), (282.575, 177.8))
            Line((282.575, 177.8), (314.325, 177.8))
            Line((314.325, 177.8), (314.325, 203.2))
            ThreePointArc((314.325, 203.2), (298.45, 219.075), (282.575, 203.2))
        make_face()
    extrude(amount=-CUT_EXTRUDE24_DEPTH, mode=Mode.SUBTRACT)

    # Fillet1
    fillet1_edges = [body_2.edges().sort_by_distance(p)[0] for p in [
        (3.175, 406.4, -251.052954744),
        (3.175, 406.4, -301.397045256),
        (3.175, 393.7, -279.4),
        (3.175, 393.7, -273.05),
        (3.175, 177.8, -314.325),
        (3.175, 177.8, -282.575),
        (3.175, 165.1, -12.7),
        (3.175, 287.117728463, -12.7),
        (3.175, 406.4, -219.302954744),
        (3.175, 406.4, -419.1),
        (3.175, 165.1, -419.1),
    ]]
    fillet(fillet1_edges, radius=FILLET1_R)

    # Sketch30 → Cut-Extrude25 (cut, through all)
    with BuildSketch(Plane(origin=(6.35, 0, 0), x_dir=(0, 0, -1), z_dir=(1, 0, 0))):
        with Locations((38.1, 173.0375)):
            Circle(SKETCH30_R)
        with Locations((88.9, 173.0375)):
            Circle(SKETCH30_R)
        with Locations((139.7, 173.0375)):
            Circle(SKETCH30_R)
        with Locations((190.5, 173.0375)):
            Circle(SKETCH30_R)
        with Locations((241.3, 173.0375)):
            Circle(SKETCH30_R)
        with Locations((292.1, 173.0375)):
            Circle(SKETCH30_R)
        with Locations((342.9, 173.0375)):
            Circle(SKETCH30_R)
        with Locations((393.7, 173.0375)):
            Circle(SKETCH30_R)
    extrude(amount=-CUT_EXTRUDE25_DEPTH, mode=Mode.SUBTRACT)

    # Sketch31 → Cut-Extrude26 (cut, through all)
    with BuildSketch(Plane(origin=(6.35, 0, 0), x_dir=(0, 0, -1), z_dir=(1, 0, 0))):
        with Locations((337.82499999, 358.775)):
            Rectangle(SKETCH31_W, SKETCH31_H)
    extrude(amount=-CUT_EXTRUDE26_DEPTH, mode=Mode.SUBTRACT)

    # Sketch32 → Cut-Extrude27 (cut, through all)
    with BuildSketch(Plane(origin=(6.35, 0, 0), x_dir=(0, 0, -1), z_dir=(1, 0, 0))):
        with BuildLine():
            Line((375.92499999, 387.35), (375.92499999, 330.2))
            ThreePointArc((375.92499999, 330.2), (404.49999999, 358.775), (375.92499999, 387.35))
        make_face()
    extrude(amount=-CUT_EXTRUDE27_DEPTH, mode=Mode.SUBTRACT)

    # Sketch33 → Cut-Extrude28 (cut, through all)
    with BuildSketch(Plane(origin=(6.35, 0, 0), x_dir=(0, 0, -1), z_dir=(1, 0, 0))):
        with Locations((219.575190199, 414.757384035)):
            Rectangle(SKETCH33_W, SKETCH33_H)
    extrude(amount=-CUT_EXTRUDE28_DEPTH, mode=Mode.SUBTRACT)

    # Fillet2
    fillet2_edges = [body_2.edges().sort_by_distance(p)[0] for p in [
        (3.175, 330.2, -299.72499999),
        (3.175, 387.35, -299.72499999),
        (3.175, 393.7, -197.305909488),
    ]]
    fillet(fillet2_edges, radius=FILLET2_R)


solid = body_2.part
